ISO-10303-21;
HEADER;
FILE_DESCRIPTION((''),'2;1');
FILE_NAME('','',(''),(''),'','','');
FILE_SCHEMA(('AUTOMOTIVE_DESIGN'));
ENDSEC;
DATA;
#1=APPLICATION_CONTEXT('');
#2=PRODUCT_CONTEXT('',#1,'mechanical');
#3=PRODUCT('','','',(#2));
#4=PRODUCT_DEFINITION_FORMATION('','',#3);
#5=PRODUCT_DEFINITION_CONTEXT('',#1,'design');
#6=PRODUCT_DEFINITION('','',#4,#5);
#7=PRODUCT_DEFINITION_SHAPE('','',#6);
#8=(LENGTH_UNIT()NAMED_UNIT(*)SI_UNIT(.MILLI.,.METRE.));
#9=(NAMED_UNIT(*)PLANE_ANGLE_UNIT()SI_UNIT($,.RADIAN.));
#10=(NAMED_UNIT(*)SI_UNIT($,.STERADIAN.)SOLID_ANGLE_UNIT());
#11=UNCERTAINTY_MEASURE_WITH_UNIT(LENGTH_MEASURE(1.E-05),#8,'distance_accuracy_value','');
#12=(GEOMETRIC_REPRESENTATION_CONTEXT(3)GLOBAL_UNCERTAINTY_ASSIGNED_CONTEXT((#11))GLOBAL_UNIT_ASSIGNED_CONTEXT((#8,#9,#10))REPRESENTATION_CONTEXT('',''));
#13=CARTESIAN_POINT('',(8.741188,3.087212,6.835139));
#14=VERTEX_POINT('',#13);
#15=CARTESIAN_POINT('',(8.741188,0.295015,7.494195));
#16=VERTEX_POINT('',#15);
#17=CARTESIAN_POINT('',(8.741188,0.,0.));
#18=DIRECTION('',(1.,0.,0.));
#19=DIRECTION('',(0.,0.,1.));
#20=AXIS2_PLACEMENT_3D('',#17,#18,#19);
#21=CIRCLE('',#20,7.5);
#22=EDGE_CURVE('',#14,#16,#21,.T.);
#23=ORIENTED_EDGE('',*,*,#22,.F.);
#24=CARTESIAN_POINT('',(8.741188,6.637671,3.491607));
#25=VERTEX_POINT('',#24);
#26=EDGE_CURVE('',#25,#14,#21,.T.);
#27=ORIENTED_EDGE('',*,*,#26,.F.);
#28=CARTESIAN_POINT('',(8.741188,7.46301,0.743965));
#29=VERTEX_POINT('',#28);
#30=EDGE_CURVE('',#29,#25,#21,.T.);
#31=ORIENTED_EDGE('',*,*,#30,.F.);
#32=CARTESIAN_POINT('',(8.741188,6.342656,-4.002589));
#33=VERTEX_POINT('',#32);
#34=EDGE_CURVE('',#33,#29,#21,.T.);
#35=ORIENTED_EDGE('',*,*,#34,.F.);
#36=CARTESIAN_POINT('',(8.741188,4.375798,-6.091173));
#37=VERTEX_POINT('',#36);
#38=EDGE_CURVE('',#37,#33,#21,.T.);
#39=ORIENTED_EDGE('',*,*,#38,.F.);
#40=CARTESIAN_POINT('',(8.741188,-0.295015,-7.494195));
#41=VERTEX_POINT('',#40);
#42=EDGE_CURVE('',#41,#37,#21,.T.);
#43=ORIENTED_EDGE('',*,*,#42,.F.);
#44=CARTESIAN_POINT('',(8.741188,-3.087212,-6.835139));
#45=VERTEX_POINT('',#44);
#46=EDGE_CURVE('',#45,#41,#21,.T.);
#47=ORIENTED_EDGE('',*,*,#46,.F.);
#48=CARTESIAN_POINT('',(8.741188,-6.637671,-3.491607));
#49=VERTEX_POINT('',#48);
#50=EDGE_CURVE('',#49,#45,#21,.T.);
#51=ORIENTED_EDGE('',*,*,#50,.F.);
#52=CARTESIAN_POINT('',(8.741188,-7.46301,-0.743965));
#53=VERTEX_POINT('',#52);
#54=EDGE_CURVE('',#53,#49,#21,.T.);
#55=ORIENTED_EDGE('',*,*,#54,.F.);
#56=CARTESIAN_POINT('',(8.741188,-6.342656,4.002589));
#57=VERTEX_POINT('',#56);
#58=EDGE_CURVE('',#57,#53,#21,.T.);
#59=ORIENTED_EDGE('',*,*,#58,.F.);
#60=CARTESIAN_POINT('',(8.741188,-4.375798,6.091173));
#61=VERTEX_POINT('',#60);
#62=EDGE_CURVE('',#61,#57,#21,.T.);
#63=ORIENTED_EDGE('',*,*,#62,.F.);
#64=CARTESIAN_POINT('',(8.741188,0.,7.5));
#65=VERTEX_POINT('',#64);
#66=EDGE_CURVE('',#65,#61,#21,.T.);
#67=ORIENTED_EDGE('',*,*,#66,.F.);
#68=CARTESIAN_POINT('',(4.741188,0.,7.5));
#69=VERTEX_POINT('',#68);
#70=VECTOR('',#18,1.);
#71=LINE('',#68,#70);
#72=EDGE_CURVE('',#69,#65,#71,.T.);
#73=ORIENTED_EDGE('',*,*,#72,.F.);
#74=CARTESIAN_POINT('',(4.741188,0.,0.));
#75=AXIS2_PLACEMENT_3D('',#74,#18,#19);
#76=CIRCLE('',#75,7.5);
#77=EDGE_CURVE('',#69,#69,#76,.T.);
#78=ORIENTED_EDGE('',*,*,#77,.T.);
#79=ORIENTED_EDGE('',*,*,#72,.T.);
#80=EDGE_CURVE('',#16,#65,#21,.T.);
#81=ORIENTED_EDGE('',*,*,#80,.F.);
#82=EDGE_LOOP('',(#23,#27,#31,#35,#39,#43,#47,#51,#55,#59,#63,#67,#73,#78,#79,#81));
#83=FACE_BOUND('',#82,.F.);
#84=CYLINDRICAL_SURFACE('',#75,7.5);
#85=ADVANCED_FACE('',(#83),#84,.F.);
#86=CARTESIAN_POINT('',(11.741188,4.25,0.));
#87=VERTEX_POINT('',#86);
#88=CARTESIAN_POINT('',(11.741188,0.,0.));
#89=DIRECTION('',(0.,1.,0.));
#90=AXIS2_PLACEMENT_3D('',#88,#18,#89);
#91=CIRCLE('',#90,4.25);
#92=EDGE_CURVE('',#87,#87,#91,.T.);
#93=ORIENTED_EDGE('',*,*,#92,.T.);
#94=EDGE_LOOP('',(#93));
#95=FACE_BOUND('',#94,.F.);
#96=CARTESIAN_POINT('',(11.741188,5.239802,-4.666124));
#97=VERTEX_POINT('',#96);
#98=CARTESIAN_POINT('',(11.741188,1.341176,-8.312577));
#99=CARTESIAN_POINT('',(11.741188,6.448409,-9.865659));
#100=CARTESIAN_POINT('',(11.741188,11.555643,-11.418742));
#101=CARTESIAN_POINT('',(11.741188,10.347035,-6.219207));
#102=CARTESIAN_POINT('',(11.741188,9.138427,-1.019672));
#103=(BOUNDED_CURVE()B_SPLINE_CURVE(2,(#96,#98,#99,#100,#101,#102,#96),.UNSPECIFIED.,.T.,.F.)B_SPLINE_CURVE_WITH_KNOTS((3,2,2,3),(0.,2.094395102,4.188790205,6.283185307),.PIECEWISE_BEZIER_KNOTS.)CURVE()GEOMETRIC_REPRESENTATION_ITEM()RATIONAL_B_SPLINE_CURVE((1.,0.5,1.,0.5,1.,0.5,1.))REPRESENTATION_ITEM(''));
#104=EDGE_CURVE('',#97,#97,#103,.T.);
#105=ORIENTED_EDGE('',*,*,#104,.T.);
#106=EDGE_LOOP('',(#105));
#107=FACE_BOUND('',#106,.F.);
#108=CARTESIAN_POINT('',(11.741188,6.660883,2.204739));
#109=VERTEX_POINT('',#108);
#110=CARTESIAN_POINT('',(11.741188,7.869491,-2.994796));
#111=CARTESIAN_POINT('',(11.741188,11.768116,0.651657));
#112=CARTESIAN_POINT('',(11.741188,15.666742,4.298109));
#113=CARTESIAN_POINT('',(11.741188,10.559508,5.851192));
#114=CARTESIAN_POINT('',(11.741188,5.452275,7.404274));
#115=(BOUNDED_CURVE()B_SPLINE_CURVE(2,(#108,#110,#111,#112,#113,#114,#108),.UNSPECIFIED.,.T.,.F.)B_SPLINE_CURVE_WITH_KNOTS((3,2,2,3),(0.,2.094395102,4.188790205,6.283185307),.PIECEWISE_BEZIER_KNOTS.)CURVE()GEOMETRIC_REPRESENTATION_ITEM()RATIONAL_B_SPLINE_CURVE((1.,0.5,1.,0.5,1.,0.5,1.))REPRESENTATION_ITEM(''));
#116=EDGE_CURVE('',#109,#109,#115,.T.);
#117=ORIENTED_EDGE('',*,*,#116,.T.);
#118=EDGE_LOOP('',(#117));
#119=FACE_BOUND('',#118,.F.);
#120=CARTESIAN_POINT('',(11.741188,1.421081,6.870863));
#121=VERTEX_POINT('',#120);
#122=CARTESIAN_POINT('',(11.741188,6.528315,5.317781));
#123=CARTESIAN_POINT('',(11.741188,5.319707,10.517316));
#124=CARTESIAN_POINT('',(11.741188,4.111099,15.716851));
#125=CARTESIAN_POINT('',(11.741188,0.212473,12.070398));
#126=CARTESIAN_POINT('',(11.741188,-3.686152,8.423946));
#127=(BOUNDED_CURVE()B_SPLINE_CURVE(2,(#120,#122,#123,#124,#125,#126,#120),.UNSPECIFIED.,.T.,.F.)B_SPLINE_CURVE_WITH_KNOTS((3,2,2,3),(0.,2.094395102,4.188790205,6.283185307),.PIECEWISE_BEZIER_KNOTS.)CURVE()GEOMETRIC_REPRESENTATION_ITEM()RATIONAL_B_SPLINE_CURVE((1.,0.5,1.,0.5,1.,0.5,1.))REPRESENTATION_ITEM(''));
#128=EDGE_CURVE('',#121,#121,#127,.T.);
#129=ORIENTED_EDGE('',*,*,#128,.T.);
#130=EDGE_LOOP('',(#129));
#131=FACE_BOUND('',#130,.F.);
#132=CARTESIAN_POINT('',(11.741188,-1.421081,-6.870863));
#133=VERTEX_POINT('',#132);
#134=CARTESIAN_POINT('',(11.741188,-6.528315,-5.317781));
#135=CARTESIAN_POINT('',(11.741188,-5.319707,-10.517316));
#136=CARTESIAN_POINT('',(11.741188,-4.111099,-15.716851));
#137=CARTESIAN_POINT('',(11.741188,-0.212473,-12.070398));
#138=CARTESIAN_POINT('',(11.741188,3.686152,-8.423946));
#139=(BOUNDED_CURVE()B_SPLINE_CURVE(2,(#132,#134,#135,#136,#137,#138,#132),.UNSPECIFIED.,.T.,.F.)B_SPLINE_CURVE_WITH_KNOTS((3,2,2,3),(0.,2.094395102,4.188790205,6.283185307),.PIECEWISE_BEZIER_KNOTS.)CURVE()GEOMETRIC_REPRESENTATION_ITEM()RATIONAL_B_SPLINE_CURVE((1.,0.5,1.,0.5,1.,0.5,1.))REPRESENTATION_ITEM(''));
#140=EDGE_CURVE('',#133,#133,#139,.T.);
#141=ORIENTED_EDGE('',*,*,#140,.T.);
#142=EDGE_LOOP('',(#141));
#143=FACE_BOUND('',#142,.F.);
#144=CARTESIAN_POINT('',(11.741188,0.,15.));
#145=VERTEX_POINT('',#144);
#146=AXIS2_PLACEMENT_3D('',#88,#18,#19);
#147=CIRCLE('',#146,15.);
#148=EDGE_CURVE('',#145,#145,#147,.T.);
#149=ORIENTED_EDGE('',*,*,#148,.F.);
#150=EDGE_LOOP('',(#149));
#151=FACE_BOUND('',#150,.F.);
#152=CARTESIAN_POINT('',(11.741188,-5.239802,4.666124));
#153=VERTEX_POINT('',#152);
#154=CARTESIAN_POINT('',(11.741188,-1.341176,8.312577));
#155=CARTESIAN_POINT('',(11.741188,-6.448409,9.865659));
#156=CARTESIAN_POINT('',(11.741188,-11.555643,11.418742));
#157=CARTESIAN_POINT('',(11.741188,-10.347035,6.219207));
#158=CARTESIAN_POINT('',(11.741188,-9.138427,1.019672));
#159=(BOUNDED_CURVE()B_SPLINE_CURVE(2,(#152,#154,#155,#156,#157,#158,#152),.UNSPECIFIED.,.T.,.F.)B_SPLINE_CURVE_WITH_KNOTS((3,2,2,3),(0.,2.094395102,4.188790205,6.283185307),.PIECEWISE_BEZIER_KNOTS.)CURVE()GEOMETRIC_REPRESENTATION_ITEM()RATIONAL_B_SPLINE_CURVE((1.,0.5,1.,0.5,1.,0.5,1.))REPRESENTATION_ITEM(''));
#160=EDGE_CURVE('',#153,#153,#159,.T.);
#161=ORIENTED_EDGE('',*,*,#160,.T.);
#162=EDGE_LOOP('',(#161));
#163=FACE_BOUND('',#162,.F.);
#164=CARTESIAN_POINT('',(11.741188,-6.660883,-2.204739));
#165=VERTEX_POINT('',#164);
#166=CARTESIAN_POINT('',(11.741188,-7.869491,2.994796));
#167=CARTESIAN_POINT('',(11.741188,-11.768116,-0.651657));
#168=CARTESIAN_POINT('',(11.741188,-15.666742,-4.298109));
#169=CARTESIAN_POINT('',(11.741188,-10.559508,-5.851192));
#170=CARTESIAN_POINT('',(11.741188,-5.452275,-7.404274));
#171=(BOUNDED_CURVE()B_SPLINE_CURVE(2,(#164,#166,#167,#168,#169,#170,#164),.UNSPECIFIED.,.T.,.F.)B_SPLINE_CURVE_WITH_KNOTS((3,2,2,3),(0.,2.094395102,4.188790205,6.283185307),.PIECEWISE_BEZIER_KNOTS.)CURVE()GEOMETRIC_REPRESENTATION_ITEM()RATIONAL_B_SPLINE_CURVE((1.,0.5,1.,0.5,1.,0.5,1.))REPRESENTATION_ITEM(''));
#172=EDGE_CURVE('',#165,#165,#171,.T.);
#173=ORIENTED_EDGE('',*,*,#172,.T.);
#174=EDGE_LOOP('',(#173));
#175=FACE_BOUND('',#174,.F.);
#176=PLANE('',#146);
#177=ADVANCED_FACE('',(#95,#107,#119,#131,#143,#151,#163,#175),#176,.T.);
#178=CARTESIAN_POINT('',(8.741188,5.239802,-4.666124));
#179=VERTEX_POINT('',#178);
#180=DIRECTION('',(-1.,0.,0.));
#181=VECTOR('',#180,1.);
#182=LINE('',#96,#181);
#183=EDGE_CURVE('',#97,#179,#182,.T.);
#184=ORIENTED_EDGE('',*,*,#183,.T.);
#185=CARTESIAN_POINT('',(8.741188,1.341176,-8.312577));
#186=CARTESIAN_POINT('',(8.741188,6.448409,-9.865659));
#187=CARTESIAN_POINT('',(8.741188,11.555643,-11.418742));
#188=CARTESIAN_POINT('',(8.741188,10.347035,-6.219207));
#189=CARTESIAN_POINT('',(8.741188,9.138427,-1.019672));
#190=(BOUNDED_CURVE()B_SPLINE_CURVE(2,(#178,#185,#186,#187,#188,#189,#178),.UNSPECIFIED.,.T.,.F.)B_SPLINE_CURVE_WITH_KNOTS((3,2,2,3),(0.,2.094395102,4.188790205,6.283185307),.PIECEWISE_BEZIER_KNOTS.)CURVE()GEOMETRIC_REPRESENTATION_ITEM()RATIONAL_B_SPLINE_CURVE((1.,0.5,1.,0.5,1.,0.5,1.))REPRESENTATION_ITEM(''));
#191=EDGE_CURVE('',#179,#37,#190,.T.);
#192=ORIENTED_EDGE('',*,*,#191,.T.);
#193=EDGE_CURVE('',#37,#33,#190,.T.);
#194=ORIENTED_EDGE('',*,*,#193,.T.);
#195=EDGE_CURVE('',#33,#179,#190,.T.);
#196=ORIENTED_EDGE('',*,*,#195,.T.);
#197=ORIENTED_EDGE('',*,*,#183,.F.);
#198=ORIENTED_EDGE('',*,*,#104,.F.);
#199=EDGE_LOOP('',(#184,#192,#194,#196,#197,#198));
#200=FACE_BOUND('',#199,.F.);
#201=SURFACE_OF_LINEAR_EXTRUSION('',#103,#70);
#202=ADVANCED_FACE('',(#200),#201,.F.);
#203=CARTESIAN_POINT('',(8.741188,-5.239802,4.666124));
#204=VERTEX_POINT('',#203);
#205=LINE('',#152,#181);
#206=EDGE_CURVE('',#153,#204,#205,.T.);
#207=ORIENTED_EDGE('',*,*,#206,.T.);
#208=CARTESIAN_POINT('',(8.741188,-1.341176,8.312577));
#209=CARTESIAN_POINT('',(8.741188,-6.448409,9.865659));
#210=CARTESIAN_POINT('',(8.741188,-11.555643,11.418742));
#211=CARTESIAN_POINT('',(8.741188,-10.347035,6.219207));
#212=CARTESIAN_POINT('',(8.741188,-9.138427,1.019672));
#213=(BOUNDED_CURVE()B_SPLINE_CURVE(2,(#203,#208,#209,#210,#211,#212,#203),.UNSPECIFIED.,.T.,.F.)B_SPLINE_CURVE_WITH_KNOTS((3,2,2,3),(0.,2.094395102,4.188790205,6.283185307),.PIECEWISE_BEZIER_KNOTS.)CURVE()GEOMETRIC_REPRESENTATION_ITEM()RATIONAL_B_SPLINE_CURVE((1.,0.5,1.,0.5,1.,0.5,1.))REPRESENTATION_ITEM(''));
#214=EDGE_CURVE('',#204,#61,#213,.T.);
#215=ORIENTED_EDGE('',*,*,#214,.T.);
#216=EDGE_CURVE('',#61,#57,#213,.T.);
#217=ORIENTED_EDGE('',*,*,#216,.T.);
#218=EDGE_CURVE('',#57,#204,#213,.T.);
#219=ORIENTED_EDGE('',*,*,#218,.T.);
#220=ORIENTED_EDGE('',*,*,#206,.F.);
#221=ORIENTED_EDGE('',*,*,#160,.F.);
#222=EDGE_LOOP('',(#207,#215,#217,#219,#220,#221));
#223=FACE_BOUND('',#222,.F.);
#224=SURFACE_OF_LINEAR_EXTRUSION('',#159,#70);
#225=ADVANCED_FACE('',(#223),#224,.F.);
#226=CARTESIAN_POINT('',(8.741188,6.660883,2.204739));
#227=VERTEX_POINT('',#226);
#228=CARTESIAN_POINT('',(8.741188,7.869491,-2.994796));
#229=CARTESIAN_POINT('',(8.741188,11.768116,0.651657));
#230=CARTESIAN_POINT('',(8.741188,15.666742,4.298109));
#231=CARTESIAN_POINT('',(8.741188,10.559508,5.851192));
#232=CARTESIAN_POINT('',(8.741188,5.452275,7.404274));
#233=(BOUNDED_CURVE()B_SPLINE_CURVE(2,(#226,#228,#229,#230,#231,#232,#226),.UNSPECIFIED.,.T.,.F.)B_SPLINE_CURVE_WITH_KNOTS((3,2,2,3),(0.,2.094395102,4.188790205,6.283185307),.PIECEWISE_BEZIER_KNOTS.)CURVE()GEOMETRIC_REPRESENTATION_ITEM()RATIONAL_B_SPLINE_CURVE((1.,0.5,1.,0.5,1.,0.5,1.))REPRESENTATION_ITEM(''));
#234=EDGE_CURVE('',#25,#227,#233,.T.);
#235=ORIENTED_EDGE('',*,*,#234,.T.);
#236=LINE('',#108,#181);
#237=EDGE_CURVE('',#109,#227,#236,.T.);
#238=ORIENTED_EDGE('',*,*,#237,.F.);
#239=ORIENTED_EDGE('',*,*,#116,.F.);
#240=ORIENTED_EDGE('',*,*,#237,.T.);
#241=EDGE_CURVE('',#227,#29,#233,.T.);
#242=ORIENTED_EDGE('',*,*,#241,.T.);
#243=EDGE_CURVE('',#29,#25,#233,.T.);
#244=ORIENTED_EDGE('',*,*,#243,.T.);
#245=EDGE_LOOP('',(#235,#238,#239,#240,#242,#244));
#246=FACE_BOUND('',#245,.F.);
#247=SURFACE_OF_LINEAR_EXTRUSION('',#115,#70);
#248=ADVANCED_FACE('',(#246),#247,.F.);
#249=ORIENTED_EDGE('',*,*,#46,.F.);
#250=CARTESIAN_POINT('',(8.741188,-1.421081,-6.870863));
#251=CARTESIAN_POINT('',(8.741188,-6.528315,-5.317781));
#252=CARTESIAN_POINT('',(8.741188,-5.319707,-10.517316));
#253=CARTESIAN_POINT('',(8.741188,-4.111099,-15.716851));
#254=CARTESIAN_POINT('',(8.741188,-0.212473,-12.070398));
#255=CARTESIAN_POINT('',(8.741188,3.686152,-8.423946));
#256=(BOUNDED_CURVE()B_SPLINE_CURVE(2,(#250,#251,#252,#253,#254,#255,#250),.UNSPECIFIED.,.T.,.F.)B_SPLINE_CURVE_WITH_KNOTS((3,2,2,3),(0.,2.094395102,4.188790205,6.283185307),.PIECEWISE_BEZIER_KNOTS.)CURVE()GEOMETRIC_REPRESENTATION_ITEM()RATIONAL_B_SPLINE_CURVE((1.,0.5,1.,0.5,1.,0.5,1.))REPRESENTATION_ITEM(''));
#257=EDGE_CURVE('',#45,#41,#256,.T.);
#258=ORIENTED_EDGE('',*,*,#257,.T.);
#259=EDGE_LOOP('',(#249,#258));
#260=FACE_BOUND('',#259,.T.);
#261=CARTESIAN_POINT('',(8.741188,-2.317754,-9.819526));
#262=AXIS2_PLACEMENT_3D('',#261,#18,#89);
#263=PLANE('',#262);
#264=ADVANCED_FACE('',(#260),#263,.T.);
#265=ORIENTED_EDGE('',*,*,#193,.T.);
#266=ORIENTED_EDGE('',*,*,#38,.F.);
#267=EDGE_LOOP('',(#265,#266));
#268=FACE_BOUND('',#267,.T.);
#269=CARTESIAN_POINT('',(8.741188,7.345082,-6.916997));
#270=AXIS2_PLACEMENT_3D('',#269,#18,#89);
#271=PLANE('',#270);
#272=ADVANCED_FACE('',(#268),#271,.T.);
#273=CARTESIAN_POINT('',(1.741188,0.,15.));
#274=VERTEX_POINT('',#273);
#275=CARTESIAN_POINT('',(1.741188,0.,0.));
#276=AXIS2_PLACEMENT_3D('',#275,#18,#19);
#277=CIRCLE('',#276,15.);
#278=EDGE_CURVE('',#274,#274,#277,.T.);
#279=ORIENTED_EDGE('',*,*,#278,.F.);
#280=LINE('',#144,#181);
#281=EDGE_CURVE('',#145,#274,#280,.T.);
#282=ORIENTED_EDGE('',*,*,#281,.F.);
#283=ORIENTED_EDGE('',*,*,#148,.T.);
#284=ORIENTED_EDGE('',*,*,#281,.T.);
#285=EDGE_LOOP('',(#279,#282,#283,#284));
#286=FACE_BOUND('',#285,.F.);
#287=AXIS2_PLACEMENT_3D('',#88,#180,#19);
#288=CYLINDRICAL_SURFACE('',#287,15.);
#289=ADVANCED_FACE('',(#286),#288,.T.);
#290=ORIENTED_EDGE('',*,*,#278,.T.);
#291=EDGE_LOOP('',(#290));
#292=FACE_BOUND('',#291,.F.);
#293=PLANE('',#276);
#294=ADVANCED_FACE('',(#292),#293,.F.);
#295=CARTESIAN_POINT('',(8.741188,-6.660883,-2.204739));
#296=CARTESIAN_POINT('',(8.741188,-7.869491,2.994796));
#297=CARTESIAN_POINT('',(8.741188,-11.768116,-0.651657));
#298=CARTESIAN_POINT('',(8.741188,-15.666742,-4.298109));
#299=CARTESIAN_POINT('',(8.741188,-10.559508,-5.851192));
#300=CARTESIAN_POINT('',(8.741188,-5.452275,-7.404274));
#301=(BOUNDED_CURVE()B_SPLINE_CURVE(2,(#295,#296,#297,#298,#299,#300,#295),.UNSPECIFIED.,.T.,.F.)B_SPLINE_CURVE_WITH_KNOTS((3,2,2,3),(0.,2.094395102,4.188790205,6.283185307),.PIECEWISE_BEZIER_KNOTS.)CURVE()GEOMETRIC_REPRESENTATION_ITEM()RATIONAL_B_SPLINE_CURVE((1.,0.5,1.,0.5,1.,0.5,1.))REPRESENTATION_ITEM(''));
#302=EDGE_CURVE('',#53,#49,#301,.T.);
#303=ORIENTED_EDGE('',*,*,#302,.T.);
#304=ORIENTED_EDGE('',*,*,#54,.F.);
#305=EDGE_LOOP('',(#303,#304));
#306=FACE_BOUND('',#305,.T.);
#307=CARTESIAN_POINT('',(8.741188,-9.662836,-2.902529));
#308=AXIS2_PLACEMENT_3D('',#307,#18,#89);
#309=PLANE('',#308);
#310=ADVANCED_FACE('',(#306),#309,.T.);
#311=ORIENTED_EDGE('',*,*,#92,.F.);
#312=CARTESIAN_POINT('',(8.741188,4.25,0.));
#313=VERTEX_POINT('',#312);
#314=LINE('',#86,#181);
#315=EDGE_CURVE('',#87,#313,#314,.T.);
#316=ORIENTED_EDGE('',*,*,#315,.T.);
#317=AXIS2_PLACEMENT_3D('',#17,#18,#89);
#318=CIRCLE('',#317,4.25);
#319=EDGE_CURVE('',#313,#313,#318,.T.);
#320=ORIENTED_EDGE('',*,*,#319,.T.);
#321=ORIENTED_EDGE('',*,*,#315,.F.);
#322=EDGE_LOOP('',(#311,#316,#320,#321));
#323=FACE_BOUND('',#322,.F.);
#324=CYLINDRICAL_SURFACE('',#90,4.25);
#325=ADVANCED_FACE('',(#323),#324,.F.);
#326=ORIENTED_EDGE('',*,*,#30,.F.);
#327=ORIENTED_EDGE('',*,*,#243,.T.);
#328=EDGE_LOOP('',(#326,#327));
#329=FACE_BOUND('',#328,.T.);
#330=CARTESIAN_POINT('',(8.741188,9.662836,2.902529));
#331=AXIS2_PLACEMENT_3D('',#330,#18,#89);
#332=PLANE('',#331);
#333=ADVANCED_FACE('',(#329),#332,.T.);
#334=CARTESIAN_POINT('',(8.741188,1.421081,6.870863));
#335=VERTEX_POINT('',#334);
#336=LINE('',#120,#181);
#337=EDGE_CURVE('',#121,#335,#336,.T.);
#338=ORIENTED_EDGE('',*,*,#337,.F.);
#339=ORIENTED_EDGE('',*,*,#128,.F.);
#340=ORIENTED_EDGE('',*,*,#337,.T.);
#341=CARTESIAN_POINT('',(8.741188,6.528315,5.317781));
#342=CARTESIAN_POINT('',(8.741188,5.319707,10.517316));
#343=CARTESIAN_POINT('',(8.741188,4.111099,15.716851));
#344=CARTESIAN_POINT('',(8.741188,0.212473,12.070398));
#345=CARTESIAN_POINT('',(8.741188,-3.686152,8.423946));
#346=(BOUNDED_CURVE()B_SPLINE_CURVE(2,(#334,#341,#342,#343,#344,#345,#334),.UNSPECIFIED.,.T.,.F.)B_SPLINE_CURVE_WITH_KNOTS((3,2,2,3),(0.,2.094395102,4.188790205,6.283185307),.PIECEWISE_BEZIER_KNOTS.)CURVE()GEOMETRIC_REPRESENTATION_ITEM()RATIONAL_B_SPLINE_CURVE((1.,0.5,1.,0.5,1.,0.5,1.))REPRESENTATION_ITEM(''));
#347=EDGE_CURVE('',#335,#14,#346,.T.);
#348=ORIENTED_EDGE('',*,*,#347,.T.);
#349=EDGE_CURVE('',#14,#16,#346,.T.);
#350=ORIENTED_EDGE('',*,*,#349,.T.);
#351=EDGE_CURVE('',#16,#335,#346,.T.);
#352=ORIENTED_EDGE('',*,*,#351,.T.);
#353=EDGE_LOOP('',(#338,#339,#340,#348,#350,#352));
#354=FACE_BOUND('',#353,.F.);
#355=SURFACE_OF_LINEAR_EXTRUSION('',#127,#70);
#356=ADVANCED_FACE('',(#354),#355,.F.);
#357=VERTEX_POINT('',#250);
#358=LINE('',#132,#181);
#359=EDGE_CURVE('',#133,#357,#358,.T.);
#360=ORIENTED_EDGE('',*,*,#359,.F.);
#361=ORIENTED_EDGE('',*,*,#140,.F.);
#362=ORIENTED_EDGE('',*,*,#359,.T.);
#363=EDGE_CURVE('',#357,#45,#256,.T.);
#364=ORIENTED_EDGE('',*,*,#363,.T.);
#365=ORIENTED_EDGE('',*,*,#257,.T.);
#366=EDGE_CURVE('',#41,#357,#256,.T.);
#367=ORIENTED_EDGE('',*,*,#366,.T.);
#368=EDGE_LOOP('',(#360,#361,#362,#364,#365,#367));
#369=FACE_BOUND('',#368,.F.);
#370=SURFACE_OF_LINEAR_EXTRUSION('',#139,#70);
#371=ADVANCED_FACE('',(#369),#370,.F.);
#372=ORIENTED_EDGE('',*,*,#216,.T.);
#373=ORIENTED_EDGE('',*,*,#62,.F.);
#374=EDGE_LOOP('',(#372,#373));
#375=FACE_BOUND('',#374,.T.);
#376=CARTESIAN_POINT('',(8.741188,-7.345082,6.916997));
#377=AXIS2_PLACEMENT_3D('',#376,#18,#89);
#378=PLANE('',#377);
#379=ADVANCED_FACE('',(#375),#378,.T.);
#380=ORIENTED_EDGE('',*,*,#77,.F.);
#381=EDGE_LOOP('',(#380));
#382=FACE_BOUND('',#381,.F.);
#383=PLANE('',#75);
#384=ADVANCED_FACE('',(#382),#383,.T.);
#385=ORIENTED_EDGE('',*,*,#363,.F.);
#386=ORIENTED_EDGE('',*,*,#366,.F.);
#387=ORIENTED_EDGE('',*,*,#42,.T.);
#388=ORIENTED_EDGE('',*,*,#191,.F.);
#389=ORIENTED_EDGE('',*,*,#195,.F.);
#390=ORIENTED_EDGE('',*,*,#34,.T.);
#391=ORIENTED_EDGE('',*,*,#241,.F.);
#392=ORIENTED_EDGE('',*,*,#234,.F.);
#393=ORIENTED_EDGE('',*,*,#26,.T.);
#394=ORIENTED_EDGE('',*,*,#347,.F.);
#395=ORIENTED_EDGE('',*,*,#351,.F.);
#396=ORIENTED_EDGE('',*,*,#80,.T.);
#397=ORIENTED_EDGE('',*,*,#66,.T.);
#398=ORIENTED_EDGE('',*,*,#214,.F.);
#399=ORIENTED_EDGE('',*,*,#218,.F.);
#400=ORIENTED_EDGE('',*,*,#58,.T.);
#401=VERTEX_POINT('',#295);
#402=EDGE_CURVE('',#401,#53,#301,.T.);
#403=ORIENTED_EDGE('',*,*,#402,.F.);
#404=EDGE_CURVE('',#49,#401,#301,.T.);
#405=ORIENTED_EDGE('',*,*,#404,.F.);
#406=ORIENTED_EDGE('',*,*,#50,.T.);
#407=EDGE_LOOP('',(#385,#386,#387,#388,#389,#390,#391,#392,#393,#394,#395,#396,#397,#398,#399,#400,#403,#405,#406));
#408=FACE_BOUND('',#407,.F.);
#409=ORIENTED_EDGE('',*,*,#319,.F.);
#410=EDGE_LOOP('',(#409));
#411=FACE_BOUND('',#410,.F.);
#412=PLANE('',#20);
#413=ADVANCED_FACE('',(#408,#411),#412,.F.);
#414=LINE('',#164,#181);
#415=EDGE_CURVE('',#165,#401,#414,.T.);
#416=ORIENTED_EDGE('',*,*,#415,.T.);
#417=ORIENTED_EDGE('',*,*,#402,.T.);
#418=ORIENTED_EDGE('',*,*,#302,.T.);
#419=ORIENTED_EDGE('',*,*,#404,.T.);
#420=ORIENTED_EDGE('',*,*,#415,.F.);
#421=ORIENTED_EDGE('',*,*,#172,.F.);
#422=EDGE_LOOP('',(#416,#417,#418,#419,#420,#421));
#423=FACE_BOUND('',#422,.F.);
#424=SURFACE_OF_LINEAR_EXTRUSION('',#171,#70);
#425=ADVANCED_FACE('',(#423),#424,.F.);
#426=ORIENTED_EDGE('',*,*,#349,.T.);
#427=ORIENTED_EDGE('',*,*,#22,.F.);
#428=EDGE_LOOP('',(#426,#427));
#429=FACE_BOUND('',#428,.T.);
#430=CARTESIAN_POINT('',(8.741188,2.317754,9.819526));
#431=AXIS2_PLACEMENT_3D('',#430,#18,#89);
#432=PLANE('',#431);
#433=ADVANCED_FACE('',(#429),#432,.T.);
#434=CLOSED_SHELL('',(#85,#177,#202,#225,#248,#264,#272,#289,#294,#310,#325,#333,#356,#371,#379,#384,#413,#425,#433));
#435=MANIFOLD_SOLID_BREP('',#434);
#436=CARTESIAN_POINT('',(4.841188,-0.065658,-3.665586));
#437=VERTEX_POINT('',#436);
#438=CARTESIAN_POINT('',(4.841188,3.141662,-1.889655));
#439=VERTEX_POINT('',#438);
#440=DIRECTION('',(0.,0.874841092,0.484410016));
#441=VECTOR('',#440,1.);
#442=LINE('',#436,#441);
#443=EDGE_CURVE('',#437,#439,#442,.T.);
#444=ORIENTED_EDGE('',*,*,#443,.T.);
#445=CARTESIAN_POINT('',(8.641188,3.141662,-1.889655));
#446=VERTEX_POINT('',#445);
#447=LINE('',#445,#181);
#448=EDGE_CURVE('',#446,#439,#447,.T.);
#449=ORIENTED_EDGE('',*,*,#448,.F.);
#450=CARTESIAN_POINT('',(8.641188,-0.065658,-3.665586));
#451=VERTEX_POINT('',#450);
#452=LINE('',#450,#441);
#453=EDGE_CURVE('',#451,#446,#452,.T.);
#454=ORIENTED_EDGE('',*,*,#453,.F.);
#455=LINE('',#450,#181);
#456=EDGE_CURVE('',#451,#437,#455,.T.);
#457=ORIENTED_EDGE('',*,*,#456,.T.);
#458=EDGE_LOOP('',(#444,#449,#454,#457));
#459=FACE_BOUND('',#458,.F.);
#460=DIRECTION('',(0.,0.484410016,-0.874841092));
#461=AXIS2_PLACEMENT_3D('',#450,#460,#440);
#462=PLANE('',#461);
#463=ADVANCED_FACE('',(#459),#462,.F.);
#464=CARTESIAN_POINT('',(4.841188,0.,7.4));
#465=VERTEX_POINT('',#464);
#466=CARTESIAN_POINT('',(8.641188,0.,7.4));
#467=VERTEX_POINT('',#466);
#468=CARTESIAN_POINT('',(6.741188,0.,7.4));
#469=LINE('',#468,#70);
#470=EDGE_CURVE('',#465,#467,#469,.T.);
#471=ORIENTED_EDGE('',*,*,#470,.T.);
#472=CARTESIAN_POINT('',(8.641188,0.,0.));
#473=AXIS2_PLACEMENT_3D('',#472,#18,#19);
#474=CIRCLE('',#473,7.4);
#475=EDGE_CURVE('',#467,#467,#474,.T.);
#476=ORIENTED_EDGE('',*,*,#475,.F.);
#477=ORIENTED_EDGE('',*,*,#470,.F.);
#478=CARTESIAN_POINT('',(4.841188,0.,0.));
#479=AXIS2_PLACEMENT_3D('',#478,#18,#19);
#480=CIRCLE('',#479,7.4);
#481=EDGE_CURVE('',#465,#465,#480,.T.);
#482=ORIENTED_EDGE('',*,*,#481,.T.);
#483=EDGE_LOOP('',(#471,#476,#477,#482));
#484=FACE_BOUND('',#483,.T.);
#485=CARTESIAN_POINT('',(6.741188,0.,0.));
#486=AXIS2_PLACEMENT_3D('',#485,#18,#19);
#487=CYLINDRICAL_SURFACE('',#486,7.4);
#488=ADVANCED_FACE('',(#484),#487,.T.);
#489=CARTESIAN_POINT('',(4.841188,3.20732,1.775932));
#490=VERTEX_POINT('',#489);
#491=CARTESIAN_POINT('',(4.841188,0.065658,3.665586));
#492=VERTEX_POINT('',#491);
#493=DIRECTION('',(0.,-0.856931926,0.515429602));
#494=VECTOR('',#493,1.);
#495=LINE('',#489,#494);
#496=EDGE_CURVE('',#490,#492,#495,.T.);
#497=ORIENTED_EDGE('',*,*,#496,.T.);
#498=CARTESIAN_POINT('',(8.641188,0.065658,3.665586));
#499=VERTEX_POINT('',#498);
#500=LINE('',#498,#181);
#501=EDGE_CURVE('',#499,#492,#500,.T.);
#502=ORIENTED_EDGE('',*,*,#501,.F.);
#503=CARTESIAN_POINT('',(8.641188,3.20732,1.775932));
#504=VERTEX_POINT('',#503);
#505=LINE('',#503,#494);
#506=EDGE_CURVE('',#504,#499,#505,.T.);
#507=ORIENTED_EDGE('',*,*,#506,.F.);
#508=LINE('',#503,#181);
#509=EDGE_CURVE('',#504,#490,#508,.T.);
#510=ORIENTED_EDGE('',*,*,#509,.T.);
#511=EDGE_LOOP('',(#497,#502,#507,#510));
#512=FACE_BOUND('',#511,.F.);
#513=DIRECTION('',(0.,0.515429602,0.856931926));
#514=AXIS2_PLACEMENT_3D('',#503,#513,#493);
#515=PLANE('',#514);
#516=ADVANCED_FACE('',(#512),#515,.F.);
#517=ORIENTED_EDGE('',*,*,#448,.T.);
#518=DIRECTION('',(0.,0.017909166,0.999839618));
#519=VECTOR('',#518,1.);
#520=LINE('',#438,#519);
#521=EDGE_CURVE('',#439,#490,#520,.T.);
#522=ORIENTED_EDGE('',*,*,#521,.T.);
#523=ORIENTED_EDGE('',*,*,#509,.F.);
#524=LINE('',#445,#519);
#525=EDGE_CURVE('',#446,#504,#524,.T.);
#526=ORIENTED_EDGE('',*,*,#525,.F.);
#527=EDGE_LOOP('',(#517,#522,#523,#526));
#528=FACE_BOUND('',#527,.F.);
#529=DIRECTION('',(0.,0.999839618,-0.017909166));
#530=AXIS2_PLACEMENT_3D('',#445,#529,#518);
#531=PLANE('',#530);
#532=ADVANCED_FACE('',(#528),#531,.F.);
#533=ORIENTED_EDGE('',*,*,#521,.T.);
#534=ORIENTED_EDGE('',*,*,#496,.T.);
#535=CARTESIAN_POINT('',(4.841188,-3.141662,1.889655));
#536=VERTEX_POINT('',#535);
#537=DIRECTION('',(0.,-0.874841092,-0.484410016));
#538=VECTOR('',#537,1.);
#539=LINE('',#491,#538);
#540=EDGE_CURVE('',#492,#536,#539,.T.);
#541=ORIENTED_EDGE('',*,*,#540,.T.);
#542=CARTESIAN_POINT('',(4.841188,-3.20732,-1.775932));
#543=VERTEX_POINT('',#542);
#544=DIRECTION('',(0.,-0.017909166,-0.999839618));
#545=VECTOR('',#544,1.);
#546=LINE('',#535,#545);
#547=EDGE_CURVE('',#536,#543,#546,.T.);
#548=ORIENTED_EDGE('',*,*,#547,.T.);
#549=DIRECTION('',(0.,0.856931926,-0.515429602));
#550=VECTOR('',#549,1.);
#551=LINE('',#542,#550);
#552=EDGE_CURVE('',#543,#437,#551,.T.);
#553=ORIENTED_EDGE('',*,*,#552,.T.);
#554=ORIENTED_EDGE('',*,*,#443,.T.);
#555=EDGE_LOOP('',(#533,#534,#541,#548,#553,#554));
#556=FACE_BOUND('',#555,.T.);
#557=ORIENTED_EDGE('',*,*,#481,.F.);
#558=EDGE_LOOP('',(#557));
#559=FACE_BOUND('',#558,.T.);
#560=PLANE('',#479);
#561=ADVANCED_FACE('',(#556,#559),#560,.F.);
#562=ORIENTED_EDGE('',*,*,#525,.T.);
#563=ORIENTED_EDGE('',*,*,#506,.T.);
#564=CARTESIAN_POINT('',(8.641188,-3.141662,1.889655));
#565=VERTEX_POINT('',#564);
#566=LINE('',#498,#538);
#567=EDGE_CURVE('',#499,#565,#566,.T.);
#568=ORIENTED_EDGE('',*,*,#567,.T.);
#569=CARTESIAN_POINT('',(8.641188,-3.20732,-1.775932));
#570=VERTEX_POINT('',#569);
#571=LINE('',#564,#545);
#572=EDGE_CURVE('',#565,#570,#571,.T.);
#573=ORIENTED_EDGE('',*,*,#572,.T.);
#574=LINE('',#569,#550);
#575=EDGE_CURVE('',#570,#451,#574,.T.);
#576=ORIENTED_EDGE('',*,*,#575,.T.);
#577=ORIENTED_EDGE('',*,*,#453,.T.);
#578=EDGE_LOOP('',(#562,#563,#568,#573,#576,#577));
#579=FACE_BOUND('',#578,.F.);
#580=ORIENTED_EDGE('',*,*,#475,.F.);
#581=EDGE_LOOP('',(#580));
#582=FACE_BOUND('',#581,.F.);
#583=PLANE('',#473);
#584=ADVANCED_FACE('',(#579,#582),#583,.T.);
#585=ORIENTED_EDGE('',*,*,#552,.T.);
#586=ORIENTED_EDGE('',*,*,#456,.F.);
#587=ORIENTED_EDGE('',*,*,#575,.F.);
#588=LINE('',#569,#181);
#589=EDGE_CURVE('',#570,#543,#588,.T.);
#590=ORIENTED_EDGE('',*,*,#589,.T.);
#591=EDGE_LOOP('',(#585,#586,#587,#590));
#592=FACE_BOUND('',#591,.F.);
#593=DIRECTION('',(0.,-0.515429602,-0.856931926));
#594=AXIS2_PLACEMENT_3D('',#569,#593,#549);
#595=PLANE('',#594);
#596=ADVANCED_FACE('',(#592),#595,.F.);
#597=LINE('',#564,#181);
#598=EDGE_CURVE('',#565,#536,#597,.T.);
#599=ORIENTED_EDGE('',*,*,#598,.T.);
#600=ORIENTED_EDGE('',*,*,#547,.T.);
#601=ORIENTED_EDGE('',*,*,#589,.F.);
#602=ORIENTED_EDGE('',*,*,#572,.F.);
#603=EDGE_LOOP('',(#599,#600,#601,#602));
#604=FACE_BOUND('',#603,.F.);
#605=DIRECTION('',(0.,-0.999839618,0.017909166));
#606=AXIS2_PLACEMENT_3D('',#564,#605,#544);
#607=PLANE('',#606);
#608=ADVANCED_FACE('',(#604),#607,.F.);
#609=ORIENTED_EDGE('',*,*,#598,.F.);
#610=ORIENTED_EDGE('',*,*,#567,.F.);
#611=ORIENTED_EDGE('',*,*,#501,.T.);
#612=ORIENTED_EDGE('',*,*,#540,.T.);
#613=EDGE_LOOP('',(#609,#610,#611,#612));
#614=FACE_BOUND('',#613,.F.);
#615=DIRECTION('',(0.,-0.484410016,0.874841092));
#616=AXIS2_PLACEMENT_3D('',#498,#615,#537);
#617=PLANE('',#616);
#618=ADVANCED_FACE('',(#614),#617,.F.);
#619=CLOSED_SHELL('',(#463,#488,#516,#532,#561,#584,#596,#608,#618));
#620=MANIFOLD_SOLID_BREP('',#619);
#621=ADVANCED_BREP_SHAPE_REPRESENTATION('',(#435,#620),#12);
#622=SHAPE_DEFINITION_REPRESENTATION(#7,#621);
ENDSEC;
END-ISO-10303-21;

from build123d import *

# Parameters (mm, degrees)
F0_W     = 3.8
F0_H     = 7.4
F2_R     = 4.25
F3_DEPTH = 3
F5_DEPTH = 3.8
F8_DEPTH = 3


with BuildPart() as f1:
    # F0 (on Front) → F1 (revolve)
    with BuildSketch(Plane.XZ):
        Polygon((1.7411876178, 15), (1.7411876178, 0), (4.7411876178, 0), (4.7411876178, 7.5), (8.7411876178, 7.5), (8.7411876178, 0), (11.7411876178, 0), (11.7411876178, 15), align=None)
    revolve(axis=Axis((13.5514412541, 0, 0), (1, 0, 0)))

    # F2 (on face) → F3 (cut)
    with BuildSketch(Plane.YZ.offset(11.7411876178)):
        Circle(F2_R)
    extrude(amount=-F3_DEPTH, mode=Mode.SUBTRACT)

    # F7 (on face) → F8 (cut)
    with BuildSketch(Plane.YZ.offset(11.7411876178)):
        with BuildLine():
            add(Edge.make_bspline(
                [(-5.2398015868, 4.6661241851), (-1.3411760526, 8.3125768665), (-6.4484094755, 9.8656592782), (-11.5556428984, 11.41874169), (-10.3470350097, 6.2192065969), (-9.138427121, 1.0196715037), (-5.2398015868, 4.6661241851)],
                knots=[0, 0, 0, 2.0943951024, 2.0943951024, 4.1887902048, 4.1887902048, 6.2831853072, 6.2831853072, 6.2831853072], degree=2, weights=[1, 0.5, 1, 0.5, 1, 0.5, 1]))
        make_face()
        with BuildLine():
            add(Edge.make_bspline(
                [(1.4210812881, 6.8708633775), (6.528314711, 5.3177809657), (5.3197068223, 10.5173160589), (4.1110989336, 15.7168511521), (0.2124733994, 12.0703984707), (-3.6861521348, 8.4239457893), (1.4210812881, 6.8708633775)],
                knots=[0, 0, 0, 2.0943951024, 2.0943951024, 4.1887902048, 4.1887902048, 6.2831853072, 6.2831853072, 6.2831853072], degree=2, weights=[1, 0.5, 1, 0.5, 1, 0.5, 1]))
        make_face()
        with BuildLine():
            add(Edge.make_bspline(
                [(6.6608828749, 2.2047391924), (7.8694907636, -2.9947959007), (11.7681162978, 0.6516567806), (15.666741832, 4.298109462), (10.5595084091, 5.8511918738), (5.4522749862, 7.4042742856), (6.6608828749, 2.2047391924)],
                knots=[0, 0, 0, 2.0943951024, 2.0943951024, 4.1887902048, 4.1887902048, 6.2831853072, 6.2831853072, 6.2831853072], degree=2, weights=[1, 0.5, 1, 0.5, 1, 0.5, 1]))
        make_face()
        with BuildLine():
            add(Edge.make_bspline(
                [(5.2398015868, -4.6661241851), (1.3411760526, -8.3125768665), (6.4484094755, -9.8656592782), (11.5556428984, -11.41874169), (10.3470350097, -6.2192065969), (9.138427121, -1.0196715037), (5.2398015868, -4.6661241851)],
                knots=[0, 0, 0, 2.0943951024, 2.0943951024, 4.1887902048, 4.1887902048, 6.2831853072, 6.2831853072, 6.2831853072], degree=2, weights=[1, 0.5, 1, 0.5, 1, 0.5, 1]))
        make_face()
        with BuildLine():
            add(Edge.make_bspline(
                [(-1.4210812881, -6.8708633775), (-6.528314711, -5.3177809657), (-5.3197068223, -10.5173160589), (-4.1110989336, -15.7168511521), (-0.2124733994, -12.0703984707), (3.6861521348, -8.4239457893), (-1.4210812881, -6.8708633775)],
                knots=[0, 0, 0, 2.0943951024, 2.0943951024, 4.1887902048, 4.1887902048, 6.2831853072, 6.2831853072, 6.2831853072], degree=2, weights=[1, 0.5, 1, 0.5, 1, 0.5, 1]))
        make_face()
        with BuildLine():
            add(Edge.make_bspline(
                [(-6.6608828749, -2.2047391924), (-7.8694907636, 2.9947959007), (-11.7681162978, -0.6516567806), (-15.666741832, -4.298109462), (-10.5595084091, -5.8511918738), (-5.4522749862, -7.4042742856), (-6.6608828749, -2.2047391924)],
                knots=[0, 0, 0, 2.0943951024, 2.0943951024, 4.1887902048, 4.1887902048, 6.2831853072, 6.2831853072, 6.2831853072], degree=2, weights=[1, 0.5, 1, 0.5, 1, 0.5, 1]))
        make_face()
    extrude(amount=-F8_DEPTH, mode=Mode.SUBTRACT)


with BuildPart() as f1b:
    # F0 (on Front) → F1, piece 2 (revolve)
    with BuildSketch(Plane.XZ):
        with Locations((6.7411876178, 3.7)):
            Rectangle(F0_W, F0_H)
    revolve(axis=Axis((13.5514412541, 0, 0), (1, 0, 0)))

    # F4 (on face) → F5 (cut)
    with BuildSketch(Plane.YZ.offset(8.6411876178)):
        Polygon((-3.2073198489, -1.7759315077), (-0.0656581235, -3.6655862211), (3.1416617255, -1.8896547134), (3.2073198489, 1.7759315077), (0.0656581235, 3.6655862211), (-3.1416617255, 1.8896547134), align=None)
    extrude(amount=-F5_DEPTH, mode=Mode.SUBTRACT)


solid = Compound([f1.part, f1b.part])
